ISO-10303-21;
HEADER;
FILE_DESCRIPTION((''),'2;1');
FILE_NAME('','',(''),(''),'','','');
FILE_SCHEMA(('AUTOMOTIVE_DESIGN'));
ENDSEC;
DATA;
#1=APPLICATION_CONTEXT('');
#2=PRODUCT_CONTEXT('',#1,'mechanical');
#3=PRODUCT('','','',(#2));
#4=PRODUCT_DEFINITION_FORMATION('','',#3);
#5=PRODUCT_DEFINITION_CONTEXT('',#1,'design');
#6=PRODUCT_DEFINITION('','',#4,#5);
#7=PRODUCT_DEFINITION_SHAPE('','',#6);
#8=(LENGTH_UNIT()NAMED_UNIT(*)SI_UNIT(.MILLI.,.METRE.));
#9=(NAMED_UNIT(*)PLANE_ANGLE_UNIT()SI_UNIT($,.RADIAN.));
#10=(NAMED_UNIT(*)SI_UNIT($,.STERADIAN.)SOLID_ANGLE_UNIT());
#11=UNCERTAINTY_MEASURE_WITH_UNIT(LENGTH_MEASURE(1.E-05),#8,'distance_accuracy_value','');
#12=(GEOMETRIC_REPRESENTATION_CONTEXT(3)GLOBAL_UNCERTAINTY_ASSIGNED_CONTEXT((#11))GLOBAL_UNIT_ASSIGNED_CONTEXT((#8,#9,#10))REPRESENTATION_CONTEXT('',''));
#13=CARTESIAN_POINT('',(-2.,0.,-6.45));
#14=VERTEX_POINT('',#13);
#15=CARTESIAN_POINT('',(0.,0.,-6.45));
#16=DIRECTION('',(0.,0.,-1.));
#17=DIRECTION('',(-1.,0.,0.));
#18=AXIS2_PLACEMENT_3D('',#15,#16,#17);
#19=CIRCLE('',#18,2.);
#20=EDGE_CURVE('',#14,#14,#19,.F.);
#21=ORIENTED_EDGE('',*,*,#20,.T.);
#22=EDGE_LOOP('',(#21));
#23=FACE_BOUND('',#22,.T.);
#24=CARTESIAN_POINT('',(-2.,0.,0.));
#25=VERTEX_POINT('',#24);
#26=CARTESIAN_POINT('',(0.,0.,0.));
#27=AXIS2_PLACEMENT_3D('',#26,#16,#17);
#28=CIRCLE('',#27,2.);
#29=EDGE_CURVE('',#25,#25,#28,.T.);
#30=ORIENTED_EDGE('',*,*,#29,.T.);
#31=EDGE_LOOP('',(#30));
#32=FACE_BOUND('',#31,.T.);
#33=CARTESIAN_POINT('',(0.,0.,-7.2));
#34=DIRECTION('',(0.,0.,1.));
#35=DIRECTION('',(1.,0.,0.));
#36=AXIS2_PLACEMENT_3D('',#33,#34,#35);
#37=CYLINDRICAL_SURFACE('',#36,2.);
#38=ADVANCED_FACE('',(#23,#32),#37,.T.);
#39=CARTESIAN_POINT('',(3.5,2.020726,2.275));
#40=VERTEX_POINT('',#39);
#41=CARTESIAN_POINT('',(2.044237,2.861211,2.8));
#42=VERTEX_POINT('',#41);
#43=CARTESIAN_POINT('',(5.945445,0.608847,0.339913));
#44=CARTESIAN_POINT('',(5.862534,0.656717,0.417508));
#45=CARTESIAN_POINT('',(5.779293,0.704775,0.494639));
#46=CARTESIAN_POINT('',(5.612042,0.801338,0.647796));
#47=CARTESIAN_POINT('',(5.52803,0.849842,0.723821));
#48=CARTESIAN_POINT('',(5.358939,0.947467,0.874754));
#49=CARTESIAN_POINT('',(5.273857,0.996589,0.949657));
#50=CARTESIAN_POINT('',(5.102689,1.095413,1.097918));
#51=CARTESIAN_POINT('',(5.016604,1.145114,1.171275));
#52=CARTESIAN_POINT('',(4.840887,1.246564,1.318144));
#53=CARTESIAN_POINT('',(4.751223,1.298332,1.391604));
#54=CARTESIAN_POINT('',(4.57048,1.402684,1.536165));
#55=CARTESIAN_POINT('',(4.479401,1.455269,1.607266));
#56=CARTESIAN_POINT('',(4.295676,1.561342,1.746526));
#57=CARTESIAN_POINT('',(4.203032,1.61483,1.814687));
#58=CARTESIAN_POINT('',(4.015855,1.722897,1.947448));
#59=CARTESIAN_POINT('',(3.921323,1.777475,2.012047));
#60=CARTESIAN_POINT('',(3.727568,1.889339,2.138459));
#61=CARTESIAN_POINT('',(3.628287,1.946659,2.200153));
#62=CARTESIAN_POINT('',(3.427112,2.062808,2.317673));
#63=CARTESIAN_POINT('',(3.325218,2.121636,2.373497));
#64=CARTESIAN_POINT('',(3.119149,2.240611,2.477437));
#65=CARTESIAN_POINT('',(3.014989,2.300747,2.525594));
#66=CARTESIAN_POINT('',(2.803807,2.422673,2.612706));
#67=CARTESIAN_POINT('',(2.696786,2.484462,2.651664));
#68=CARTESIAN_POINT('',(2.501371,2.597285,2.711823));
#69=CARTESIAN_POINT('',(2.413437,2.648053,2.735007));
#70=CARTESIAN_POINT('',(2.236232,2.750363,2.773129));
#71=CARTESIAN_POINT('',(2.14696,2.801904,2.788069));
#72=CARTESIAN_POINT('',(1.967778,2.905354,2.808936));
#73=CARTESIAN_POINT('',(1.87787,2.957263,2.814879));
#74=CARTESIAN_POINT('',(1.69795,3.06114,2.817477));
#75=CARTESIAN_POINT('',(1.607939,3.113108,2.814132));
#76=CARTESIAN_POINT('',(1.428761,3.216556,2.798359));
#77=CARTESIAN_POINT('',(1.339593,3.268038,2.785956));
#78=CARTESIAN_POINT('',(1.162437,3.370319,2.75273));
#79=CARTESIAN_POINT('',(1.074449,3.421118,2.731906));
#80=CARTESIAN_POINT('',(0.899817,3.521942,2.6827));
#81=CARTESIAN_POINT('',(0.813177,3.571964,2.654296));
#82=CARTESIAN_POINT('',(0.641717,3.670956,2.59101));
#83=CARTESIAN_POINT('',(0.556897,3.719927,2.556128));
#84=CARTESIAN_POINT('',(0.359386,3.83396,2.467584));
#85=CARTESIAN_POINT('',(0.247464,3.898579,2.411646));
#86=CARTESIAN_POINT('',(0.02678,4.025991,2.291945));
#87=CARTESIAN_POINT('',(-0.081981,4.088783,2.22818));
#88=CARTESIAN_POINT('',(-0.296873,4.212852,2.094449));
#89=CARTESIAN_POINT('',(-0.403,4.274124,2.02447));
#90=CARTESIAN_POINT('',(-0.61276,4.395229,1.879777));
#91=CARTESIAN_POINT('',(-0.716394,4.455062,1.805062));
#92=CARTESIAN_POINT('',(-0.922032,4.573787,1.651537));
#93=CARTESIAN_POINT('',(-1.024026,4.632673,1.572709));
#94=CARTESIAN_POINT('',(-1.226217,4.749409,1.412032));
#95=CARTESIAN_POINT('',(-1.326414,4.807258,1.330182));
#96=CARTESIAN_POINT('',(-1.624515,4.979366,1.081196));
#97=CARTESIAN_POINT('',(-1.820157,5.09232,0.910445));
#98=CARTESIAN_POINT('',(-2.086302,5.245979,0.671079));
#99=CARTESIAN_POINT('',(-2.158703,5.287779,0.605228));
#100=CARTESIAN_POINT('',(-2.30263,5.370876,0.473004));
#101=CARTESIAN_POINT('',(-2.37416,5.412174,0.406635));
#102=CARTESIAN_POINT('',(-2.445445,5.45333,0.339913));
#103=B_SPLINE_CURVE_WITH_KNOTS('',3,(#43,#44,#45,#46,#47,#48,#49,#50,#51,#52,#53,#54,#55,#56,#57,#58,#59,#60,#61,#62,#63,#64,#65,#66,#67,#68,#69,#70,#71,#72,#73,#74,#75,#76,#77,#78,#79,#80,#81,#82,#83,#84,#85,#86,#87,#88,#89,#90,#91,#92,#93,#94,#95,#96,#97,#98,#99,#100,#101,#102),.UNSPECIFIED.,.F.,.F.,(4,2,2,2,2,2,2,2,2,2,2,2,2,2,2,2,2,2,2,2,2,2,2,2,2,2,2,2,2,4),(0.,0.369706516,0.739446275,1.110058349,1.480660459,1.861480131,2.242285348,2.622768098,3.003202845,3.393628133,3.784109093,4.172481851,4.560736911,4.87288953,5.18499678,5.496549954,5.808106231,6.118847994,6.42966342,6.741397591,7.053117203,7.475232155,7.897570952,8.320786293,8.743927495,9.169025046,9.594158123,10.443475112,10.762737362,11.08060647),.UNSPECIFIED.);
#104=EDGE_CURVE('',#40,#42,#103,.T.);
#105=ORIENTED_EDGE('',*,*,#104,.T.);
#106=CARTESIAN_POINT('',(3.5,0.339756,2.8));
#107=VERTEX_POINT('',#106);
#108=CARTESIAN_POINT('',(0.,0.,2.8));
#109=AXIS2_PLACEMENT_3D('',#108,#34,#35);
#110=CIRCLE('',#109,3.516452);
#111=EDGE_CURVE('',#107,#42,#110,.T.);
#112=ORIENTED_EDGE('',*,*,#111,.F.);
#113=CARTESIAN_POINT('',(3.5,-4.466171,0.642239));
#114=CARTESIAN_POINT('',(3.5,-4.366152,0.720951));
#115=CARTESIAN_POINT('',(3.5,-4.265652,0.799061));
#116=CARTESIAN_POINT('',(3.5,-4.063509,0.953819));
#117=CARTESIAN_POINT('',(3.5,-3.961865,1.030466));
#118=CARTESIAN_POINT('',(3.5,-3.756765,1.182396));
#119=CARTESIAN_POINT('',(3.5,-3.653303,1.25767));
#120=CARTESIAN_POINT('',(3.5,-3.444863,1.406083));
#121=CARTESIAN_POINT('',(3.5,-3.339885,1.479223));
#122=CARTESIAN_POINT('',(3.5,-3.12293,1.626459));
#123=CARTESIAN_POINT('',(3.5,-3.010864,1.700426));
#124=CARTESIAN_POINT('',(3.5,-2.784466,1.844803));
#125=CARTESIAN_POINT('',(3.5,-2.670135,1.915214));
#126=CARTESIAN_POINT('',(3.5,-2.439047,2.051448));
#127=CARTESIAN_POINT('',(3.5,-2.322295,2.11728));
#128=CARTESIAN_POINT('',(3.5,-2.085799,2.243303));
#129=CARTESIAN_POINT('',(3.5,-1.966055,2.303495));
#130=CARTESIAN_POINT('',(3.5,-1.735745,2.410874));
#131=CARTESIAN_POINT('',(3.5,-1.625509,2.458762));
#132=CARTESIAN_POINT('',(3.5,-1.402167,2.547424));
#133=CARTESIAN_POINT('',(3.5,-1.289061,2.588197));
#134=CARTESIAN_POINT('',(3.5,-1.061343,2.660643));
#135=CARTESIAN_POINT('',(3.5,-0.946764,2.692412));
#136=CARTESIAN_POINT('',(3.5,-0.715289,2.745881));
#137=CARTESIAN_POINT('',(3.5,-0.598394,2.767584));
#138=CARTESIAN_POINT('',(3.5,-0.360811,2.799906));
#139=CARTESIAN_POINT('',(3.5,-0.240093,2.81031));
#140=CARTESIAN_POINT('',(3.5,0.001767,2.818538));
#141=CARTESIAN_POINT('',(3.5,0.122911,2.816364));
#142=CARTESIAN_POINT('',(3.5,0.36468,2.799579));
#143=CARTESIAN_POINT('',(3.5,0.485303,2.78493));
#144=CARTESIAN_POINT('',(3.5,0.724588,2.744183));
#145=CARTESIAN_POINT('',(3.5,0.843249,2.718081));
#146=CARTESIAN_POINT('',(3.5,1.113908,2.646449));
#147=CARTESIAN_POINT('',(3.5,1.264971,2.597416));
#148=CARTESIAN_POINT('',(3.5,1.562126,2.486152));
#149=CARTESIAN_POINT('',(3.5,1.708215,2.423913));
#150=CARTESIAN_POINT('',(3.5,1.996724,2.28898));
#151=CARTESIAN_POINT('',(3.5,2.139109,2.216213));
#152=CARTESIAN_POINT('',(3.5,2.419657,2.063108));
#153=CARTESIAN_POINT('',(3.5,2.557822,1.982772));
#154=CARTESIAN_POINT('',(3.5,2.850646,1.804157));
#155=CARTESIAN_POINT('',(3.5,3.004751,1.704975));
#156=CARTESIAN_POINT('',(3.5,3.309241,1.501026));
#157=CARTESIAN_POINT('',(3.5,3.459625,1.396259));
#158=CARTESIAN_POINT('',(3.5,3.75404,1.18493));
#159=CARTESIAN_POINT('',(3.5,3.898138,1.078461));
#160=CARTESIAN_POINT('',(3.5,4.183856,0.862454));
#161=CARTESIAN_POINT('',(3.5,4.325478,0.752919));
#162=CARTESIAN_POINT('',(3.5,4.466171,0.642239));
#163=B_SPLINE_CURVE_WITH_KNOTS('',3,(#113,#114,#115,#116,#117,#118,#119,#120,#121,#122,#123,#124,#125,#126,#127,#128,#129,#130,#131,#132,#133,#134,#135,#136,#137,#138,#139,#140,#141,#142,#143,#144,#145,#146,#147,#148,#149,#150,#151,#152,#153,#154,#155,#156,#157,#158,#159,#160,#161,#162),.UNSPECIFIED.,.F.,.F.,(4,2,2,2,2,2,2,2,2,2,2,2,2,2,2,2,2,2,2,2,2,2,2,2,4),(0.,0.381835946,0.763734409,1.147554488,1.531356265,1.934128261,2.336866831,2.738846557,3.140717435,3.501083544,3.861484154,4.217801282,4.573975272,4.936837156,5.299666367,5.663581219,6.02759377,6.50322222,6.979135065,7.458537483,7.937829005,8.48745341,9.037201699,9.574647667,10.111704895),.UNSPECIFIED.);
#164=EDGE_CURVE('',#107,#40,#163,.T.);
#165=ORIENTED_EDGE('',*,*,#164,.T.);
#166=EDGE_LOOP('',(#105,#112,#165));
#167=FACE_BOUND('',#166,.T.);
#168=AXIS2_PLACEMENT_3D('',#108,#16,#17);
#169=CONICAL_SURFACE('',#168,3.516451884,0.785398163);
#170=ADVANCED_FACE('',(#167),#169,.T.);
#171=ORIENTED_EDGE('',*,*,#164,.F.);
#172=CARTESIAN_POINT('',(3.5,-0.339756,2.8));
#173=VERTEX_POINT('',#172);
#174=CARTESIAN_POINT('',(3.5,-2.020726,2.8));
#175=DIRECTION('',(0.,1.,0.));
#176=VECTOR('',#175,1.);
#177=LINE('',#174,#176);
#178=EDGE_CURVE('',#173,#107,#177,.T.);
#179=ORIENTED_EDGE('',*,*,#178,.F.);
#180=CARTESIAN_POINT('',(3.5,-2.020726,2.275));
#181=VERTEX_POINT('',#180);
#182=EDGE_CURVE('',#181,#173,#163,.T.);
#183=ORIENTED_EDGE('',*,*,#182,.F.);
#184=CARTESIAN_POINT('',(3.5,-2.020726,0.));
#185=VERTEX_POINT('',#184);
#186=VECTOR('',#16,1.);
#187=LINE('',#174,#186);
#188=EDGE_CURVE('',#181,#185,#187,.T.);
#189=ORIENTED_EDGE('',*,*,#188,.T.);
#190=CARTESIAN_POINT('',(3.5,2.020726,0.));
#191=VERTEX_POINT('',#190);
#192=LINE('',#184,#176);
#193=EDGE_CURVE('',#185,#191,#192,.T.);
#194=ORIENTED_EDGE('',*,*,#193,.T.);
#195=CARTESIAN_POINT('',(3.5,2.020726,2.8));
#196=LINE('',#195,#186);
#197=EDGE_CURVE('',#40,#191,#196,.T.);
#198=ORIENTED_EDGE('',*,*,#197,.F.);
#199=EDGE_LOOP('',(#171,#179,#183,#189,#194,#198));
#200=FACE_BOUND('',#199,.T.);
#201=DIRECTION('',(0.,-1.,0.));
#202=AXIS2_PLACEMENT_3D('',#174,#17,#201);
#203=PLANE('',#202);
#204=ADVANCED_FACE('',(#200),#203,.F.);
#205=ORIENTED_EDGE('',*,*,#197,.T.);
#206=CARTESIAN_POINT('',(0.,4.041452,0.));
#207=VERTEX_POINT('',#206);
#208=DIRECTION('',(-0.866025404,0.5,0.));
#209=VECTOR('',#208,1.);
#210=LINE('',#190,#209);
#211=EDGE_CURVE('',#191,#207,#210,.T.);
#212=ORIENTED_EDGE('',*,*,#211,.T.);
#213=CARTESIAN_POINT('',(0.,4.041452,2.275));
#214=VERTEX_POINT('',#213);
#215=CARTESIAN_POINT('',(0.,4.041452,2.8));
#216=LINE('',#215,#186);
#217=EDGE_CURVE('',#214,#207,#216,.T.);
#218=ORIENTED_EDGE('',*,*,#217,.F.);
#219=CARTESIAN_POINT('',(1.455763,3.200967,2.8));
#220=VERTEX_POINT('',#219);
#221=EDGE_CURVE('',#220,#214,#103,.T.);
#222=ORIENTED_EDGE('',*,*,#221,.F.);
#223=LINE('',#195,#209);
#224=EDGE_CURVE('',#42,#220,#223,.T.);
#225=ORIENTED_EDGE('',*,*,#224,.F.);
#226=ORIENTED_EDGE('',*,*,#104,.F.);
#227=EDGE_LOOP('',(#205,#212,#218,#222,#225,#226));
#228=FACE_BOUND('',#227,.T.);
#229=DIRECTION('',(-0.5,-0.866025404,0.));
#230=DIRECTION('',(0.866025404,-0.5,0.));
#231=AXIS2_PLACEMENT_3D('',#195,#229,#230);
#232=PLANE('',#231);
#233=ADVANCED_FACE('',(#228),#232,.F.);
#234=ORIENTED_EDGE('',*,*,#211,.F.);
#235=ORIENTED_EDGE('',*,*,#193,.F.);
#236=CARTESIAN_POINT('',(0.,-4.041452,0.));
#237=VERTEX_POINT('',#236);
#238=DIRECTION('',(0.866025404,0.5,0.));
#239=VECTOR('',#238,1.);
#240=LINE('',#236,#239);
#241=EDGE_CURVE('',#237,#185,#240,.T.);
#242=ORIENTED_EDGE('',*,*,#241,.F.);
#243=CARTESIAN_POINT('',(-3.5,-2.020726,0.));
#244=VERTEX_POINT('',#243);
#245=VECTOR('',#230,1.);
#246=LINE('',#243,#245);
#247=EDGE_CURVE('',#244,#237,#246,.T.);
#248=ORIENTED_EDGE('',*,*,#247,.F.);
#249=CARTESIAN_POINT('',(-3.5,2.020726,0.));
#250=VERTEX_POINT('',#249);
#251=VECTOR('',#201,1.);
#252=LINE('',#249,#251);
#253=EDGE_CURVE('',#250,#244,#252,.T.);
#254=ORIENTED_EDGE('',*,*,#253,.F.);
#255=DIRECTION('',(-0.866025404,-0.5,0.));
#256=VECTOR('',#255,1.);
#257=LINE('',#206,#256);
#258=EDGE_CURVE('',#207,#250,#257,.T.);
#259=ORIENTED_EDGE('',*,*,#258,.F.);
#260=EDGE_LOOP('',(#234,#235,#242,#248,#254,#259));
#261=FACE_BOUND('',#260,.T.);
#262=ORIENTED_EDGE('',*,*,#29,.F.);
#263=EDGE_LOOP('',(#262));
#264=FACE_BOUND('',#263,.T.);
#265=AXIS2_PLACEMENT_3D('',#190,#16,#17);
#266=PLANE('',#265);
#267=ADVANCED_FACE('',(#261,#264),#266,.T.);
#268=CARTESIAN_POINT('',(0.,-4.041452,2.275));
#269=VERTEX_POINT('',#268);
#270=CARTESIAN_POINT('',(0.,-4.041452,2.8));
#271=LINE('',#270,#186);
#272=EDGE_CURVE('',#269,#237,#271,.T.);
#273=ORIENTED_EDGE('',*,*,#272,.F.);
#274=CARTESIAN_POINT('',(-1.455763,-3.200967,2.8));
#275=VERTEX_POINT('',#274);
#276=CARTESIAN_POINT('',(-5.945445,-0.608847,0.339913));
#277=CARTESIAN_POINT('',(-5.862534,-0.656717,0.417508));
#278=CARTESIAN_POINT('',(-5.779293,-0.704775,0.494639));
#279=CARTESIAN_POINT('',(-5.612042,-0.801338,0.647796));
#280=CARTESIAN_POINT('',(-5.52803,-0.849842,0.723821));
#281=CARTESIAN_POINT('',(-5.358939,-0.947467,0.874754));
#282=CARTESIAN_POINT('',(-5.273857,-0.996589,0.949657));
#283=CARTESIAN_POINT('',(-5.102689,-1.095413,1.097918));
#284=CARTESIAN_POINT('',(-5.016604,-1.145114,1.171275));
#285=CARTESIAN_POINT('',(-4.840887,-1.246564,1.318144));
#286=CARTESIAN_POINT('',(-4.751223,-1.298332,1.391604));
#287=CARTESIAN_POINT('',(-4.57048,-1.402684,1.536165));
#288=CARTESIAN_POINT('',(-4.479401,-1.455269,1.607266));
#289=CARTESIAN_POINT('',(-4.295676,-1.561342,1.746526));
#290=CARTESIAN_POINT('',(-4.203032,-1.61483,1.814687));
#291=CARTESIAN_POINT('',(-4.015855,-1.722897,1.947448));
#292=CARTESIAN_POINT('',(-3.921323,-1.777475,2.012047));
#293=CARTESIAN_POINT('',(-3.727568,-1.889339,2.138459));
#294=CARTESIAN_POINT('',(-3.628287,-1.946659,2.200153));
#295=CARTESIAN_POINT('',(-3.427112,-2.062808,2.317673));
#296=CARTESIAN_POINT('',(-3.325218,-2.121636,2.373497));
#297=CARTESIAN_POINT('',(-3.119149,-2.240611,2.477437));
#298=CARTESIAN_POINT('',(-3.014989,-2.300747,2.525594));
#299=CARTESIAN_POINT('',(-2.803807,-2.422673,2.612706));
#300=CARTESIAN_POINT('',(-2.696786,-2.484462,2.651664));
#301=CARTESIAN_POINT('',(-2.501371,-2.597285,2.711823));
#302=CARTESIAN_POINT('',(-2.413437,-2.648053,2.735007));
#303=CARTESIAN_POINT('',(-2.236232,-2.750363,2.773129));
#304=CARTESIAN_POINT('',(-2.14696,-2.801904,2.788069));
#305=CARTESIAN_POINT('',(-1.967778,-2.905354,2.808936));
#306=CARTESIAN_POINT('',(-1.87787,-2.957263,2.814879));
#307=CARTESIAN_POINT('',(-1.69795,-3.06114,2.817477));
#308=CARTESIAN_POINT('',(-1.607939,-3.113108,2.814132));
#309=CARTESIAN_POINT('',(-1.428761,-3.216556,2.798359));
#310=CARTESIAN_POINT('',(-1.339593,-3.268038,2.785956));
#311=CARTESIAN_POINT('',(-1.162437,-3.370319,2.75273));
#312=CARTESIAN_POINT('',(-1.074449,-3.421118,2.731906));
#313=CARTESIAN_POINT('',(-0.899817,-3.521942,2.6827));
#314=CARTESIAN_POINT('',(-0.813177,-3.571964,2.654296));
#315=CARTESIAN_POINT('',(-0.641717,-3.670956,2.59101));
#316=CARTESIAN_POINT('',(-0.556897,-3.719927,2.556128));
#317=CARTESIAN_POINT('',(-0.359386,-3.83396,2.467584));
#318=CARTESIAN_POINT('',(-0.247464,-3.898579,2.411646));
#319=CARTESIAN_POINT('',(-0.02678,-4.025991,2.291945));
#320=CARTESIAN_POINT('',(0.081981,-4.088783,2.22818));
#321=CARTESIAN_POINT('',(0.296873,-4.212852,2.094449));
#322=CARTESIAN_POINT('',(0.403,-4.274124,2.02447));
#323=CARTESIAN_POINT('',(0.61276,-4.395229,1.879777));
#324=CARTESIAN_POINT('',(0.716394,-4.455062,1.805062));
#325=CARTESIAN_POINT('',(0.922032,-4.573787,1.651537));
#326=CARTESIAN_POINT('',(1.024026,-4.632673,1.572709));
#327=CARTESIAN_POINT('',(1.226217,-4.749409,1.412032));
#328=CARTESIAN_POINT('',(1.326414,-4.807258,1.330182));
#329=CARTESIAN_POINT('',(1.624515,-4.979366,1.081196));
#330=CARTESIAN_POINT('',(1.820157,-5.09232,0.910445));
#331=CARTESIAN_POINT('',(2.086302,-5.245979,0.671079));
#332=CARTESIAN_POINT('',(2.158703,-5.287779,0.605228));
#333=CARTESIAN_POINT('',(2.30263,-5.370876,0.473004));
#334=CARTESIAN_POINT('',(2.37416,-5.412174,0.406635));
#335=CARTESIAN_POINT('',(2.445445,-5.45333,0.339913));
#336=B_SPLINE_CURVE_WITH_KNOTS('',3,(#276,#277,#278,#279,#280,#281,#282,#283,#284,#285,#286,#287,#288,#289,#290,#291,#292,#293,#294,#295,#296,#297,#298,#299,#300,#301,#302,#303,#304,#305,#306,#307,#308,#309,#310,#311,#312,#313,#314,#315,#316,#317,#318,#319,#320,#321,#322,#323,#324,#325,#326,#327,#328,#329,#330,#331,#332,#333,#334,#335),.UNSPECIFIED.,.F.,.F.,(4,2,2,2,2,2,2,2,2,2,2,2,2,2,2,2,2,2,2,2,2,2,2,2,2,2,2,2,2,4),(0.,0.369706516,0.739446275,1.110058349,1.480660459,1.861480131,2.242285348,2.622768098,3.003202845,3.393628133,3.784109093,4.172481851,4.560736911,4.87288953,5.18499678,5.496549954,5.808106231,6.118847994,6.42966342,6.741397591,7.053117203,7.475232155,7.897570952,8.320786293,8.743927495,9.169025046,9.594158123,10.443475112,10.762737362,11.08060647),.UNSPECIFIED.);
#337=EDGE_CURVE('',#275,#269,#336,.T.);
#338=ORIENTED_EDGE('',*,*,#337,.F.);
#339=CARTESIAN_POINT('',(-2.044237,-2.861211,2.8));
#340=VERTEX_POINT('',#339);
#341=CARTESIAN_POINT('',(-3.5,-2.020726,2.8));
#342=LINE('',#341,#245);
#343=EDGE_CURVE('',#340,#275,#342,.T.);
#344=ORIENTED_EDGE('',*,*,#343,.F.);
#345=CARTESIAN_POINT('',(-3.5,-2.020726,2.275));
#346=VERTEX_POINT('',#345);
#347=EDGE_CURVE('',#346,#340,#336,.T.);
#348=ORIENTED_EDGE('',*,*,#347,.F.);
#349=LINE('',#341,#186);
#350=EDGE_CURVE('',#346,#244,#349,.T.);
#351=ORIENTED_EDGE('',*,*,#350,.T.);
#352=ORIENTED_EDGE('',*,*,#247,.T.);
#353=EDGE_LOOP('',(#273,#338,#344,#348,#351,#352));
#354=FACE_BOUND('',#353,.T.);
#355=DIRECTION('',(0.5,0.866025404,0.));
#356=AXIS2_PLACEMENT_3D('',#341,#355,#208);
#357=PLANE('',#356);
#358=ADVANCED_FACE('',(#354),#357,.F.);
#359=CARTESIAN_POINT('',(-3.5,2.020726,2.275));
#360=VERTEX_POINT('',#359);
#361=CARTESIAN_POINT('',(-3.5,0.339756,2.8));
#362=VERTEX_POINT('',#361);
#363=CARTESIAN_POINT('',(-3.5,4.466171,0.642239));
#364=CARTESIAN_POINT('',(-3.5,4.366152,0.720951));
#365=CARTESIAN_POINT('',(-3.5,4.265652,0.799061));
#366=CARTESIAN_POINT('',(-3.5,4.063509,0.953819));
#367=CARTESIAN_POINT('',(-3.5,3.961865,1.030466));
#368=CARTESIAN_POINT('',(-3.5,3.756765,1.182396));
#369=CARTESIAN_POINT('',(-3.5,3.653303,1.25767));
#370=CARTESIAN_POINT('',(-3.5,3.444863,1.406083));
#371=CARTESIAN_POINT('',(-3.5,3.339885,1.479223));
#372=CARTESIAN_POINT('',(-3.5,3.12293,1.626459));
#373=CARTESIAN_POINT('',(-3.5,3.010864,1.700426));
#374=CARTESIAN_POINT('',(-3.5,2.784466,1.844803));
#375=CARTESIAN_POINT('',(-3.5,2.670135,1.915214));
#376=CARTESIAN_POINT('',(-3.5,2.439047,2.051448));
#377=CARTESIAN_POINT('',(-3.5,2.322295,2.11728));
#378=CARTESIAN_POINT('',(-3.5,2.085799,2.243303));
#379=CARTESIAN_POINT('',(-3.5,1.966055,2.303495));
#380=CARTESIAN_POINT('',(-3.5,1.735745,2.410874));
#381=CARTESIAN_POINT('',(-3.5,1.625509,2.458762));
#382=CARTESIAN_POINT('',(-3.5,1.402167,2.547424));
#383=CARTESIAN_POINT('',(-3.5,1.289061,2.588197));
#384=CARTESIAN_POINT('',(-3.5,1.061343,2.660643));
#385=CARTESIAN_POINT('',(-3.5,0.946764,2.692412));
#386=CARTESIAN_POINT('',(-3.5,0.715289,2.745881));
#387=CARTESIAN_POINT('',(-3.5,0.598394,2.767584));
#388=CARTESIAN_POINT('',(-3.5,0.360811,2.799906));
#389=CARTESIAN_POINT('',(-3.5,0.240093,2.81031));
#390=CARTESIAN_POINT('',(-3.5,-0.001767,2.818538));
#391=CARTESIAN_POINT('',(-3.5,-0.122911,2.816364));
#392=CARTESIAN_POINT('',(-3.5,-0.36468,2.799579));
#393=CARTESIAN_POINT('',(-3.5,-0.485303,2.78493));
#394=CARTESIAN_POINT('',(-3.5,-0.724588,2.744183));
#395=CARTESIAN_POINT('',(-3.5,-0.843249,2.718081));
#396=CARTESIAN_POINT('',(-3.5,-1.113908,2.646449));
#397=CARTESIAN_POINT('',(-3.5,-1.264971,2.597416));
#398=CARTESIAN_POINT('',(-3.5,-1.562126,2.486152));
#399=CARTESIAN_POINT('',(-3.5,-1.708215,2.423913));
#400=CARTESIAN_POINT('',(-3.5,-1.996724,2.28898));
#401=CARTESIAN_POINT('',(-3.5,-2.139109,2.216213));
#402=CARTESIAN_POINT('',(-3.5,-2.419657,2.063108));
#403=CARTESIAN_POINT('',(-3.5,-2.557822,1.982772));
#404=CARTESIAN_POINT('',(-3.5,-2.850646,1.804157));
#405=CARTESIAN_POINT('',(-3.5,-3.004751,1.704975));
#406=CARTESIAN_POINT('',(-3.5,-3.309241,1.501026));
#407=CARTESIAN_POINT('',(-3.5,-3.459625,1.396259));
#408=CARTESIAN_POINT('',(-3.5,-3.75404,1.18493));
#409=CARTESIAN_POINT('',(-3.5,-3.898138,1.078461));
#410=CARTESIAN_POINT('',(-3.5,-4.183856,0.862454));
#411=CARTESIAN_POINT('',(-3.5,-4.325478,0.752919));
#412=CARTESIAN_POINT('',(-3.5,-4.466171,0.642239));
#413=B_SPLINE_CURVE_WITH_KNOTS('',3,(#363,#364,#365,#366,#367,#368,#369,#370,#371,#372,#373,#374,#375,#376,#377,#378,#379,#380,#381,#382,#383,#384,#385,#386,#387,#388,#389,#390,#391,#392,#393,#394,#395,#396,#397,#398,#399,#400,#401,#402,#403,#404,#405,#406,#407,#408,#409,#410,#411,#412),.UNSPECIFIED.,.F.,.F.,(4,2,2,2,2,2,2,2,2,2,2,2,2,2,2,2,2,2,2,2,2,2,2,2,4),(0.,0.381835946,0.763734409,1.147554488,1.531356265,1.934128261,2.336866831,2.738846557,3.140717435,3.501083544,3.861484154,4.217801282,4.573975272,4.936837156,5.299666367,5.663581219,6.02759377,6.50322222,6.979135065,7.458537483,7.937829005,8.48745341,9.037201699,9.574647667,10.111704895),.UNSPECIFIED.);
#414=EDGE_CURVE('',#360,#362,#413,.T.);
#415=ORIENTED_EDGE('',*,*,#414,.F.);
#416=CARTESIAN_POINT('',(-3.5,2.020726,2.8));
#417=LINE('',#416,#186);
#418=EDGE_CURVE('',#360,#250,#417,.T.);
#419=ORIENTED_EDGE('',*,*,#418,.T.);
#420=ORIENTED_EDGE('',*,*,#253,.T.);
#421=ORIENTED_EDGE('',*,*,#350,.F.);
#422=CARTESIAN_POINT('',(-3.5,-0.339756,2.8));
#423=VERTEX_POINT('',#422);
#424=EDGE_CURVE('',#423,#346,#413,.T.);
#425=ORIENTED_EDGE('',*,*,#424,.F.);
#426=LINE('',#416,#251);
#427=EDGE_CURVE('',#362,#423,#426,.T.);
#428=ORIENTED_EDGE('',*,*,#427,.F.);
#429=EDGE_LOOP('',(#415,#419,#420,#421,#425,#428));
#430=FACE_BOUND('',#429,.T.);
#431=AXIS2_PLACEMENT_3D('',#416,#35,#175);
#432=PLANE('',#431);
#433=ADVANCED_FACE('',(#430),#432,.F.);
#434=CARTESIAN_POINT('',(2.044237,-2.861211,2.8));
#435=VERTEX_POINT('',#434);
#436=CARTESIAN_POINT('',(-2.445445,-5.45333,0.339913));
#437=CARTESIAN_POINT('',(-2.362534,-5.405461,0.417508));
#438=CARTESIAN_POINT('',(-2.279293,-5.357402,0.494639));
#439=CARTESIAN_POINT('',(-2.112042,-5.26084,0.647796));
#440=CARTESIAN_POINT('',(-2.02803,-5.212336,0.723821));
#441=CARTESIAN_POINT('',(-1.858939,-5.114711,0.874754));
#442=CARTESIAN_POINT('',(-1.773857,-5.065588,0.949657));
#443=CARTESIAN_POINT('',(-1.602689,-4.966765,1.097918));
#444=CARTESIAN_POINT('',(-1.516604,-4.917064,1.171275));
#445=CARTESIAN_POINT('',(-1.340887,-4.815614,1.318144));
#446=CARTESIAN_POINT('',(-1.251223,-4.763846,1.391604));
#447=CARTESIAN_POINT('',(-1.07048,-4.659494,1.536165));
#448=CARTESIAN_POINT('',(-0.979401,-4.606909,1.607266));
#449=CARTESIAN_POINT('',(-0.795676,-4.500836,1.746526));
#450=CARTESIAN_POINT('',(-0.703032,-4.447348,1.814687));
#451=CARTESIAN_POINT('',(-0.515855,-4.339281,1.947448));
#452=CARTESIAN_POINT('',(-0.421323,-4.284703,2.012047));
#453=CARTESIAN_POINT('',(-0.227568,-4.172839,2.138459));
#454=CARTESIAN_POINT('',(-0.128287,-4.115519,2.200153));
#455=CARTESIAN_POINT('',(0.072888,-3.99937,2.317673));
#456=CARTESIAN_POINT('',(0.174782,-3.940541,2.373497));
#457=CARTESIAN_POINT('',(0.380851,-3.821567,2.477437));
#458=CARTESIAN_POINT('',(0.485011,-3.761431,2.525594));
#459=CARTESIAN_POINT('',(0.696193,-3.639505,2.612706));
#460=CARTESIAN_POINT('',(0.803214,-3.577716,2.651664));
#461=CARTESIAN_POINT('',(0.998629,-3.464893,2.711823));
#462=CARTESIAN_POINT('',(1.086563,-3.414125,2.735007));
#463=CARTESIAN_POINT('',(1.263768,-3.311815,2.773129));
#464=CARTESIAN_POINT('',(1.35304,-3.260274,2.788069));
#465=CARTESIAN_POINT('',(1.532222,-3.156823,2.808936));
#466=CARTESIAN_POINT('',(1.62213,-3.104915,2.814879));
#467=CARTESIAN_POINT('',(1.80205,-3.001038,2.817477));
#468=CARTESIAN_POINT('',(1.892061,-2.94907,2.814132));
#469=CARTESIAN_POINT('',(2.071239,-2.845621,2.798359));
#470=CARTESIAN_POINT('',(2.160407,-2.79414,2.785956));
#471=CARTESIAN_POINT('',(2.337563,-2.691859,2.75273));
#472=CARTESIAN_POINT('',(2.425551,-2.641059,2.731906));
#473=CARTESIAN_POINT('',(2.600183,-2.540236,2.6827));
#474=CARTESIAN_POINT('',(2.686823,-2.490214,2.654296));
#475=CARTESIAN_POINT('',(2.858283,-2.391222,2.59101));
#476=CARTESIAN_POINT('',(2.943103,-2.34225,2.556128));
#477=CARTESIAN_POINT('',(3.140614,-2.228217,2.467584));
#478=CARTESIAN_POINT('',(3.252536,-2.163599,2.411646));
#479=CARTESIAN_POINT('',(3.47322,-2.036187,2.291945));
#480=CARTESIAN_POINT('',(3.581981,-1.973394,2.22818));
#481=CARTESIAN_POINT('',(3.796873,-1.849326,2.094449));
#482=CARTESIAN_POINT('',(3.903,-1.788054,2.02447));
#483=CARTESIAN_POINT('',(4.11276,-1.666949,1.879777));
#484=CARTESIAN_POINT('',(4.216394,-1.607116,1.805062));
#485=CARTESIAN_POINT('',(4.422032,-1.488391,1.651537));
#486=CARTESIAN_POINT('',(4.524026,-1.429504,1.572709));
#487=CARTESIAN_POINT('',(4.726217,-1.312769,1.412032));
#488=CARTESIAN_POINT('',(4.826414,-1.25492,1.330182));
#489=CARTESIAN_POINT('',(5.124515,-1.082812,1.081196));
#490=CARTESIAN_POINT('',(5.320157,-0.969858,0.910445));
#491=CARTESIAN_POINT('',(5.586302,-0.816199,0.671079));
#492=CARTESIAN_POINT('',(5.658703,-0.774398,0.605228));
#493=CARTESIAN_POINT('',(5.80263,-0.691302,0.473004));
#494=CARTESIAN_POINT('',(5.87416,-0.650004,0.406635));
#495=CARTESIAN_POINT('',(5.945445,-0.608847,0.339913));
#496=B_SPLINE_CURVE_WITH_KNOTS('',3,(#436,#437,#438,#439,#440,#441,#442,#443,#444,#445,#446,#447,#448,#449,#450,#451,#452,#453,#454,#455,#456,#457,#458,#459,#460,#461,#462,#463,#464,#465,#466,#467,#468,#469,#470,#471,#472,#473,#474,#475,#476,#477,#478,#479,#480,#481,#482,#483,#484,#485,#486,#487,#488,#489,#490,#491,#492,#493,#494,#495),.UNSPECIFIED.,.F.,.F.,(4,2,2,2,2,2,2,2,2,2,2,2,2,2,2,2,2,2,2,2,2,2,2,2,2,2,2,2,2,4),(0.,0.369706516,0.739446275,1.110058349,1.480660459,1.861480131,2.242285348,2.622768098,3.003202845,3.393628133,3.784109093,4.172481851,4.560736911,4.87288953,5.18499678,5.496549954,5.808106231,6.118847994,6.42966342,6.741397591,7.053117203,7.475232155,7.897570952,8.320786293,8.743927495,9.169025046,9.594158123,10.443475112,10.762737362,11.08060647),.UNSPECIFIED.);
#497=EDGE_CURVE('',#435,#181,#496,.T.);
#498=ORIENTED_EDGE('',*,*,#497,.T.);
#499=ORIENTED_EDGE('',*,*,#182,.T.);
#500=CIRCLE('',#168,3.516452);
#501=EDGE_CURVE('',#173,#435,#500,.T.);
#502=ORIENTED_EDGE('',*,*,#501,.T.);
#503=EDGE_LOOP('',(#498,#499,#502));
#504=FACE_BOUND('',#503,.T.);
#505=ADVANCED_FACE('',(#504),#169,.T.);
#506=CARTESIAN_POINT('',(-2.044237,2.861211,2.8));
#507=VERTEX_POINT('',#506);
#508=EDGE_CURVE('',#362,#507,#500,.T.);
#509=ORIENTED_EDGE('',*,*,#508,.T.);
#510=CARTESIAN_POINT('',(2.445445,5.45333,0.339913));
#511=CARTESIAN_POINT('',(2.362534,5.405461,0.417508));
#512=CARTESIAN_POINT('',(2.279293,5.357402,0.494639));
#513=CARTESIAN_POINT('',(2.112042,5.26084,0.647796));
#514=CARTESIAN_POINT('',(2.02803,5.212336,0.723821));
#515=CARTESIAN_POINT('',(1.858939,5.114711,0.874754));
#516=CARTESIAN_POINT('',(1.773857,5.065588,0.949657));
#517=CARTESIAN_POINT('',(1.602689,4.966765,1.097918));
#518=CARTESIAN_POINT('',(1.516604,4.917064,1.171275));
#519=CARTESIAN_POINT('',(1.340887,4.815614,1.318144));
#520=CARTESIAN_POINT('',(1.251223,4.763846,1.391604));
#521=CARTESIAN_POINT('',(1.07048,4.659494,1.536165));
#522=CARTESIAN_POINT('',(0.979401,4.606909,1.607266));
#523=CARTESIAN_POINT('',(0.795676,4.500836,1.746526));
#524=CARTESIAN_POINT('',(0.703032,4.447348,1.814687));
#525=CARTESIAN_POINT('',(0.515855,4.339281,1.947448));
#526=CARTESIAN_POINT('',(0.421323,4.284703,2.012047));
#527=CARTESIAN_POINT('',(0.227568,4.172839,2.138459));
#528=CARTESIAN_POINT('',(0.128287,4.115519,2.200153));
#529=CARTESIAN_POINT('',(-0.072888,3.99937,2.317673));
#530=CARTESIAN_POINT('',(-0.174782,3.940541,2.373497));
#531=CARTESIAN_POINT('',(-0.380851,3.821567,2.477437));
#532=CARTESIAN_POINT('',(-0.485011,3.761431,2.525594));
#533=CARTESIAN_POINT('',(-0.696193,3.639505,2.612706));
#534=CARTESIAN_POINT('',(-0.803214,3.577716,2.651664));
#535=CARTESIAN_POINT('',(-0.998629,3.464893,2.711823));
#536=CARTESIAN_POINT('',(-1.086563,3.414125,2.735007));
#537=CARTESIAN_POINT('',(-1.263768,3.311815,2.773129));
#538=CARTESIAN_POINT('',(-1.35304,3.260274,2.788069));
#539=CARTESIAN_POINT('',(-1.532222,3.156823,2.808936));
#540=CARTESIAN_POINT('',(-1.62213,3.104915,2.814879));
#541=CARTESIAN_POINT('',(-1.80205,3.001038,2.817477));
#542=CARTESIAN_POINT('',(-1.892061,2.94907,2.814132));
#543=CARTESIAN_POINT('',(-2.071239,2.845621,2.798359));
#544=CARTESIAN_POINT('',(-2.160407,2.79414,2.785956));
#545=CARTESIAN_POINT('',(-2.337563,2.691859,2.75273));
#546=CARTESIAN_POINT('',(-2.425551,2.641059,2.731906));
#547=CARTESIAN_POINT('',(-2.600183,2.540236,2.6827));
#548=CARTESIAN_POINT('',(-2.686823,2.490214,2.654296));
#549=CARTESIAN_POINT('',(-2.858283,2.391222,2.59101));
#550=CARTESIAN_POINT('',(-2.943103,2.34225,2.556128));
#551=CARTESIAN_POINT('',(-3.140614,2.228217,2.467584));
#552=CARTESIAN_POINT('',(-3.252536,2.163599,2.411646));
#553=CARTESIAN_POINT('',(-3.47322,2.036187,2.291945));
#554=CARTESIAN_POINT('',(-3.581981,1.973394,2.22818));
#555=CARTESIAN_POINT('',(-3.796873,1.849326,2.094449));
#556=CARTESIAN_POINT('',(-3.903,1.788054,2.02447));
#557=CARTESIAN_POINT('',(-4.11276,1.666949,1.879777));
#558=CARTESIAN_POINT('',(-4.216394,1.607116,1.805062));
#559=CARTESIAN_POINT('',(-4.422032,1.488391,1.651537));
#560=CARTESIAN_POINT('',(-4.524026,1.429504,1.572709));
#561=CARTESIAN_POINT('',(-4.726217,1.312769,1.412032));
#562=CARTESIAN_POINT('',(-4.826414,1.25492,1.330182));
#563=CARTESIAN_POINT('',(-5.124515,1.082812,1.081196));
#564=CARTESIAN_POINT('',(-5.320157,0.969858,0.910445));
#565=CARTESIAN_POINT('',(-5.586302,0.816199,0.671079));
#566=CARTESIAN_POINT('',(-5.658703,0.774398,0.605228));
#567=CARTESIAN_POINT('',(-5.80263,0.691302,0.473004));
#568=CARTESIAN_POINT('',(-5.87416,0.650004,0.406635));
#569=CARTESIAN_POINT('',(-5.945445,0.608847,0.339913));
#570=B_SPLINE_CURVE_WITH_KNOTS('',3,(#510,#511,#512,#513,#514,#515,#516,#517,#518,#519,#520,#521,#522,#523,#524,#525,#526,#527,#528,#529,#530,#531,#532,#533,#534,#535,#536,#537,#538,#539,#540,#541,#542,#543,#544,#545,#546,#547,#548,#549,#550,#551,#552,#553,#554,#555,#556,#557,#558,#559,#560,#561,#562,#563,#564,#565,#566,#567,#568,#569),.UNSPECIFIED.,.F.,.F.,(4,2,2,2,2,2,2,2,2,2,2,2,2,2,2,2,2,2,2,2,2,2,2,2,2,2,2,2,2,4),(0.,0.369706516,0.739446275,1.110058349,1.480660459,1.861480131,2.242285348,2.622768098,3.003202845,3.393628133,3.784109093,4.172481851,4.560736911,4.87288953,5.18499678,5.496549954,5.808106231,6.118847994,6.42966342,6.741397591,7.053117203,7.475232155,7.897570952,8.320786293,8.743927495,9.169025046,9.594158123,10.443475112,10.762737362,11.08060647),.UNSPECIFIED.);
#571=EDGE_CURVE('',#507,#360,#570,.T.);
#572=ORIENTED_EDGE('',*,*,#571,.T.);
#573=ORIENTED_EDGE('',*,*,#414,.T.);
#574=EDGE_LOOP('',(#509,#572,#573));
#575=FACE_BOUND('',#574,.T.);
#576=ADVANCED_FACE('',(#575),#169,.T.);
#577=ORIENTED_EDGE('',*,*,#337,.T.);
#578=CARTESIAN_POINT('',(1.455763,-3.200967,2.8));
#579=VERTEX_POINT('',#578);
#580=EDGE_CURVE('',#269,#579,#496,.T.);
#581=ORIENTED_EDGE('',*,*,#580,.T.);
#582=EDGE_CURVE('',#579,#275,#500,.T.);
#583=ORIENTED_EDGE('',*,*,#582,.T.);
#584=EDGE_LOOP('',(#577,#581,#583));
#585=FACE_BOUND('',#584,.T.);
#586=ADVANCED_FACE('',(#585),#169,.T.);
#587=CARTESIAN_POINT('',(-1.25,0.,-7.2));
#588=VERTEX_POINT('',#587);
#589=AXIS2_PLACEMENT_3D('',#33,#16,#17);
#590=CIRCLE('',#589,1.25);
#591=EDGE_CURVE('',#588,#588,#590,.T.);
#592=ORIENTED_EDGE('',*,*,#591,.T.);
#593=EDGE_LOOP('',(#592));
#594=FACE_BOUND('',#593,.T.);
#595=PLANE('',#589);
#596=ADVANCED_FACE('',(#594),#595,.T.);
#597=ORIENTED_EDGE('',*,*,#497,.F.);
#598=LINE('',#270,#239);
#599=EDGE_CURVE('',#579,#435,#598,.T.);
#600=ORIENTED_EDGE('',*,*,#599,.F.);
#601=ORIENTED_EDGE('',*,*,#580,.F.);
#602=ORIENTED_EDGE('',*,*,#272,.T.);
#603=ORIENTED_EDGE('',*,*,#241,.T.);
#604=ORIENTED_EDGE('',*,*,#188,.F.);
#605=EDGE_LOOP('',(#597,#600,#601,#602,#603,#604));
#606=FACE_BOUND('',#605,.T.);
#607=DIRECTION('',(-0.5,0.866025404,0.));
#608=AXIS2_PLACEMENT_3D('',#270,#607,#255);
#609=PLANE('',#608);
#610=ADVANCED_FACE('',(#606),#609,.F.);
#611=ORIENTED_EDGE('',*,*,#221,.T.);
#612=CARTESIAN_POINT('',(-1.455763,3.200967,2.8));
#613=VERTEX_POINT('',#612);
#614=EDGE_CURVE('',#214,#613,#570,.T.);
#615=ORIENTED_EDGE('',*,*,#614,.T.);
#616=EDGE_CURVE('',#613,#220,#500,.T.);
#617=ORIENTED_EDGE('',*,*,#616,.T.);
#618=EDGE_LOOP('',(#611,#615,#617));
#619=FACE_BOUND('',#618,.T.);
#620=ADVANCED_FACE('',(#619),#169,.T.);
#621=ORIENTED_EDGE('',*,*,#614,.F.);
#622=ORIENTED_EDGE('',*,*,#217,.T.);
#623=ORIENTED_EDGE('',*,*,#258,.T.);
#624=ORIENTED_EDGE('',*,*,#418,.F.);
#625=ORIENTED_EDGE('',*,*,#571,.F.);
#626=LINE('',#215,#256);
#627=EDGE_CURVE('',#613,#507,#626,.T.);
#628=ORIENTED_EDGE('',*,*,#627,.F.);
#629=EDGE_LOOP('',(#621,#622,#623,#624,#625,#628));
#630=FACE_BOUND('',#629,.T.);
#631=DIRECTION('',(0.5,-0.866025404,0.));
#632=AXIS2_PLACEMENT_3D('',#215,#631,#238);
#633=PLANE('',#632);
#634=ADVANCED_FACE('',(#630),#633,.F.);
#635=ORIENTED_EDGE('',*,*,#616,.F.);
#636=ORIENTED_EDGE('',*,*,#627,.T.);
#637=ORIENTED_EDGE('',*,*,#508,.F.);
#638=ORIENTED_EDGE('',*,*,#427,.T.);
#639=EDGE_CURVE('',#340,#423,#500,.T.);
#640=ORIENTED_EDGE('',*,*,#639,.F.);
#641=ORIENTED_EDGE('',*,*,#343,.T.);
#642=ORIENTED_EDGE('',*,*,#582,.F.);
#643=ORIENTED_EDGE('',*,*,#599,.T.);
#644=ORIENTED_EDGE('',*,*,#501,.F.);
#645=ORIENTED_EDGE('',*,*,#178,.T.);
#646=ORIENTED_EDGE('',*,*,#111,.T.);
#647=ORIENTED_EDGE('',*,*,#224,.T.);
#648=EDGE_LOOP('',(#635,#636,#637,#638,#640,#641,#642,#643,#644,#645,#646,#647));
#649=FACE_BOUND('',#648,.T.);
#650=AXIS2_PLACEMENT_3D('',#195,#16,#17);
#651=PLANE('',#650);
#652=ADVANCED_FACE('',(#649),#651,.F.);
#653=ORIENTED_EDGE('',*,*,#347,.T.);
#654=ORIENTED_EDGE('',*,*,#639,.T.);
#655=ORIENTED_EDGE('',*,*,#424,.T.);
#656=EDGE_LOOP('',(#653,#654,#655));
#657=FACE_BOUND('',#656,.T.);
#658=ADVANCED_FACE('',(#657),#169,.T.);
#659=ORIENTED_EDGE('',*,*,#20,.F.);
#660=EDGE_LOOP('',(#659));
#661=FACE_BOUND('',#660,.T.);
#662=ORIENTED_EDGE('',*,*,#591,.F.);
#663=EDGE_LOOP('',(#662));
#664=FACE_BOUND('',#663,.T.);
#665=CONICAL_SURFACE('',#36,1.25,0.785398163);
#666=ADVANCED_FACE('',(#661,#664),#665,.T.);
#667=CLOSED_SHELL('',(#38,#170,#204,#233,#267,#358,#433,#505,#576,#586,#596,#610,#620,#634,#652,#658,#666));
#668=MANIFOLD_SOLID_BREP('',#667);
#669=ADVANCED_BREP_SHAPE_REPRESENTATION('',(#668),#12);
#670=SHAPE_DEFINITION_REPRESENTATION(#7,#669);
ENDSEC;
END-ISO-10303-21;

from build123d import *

# Parameters (mm, degrees)
EXTRUDE_1_DEPTH = 2.8
SKETCH_2_R      = 2
EXTRUDE_2_DEPTH = 7.2
CHAMFER_1_SIZE  = 0.75


with BuildPart() as part:
    # Эскиз1 → Вытянуть1 (new body)
    with BuildSketch(Plane.XY):
        Polygon((0, 4.041451884), (-3.5, 2.020725942), (-3.5, -2.020725942), (0, -4.041451884), (3.5, -2.020725942), (3.5, 2.020725942), align=None)
    extrude(amount=EXTRUDE_1_DEPTH)

    # Эскиз2 → Вытянуть2 (add)
    with BuildSketch(Plane(origin=(0, 0, 0), x_dir=(-1, 0, 0), z_dir=(0, 0, -1))):
        Circle(SKETCH_2_R)
    extrude(amount=EXTRUDE_2_DEPTH)

    # Эскиз15 → Вырез-Повернуть1 (revolve, cut)
    with BuildSketch(Plane(origin=(0, 0, 0), x_dir=(0, 0, -1), z_dir=(1, 0, 0))):
        Polygon((-2.8, 4.041451884), (-2.8, 3.516451884), (-2.275, 4.041451884), align=None)
    revolve(axis=Axis((0, 0, 5.265296569), (0, 0, -1)), mode=Mode.SUBTRACT)

    # Фаска1
    chamfer_1_edges = [part.edges().sort_by_distance(p)[0] for p in [
        (2, 0, -7.2),
    ]]
    chamfer(chamfer_1_edges, length=CHAMFER_1_SIZE)


solid = part.part
